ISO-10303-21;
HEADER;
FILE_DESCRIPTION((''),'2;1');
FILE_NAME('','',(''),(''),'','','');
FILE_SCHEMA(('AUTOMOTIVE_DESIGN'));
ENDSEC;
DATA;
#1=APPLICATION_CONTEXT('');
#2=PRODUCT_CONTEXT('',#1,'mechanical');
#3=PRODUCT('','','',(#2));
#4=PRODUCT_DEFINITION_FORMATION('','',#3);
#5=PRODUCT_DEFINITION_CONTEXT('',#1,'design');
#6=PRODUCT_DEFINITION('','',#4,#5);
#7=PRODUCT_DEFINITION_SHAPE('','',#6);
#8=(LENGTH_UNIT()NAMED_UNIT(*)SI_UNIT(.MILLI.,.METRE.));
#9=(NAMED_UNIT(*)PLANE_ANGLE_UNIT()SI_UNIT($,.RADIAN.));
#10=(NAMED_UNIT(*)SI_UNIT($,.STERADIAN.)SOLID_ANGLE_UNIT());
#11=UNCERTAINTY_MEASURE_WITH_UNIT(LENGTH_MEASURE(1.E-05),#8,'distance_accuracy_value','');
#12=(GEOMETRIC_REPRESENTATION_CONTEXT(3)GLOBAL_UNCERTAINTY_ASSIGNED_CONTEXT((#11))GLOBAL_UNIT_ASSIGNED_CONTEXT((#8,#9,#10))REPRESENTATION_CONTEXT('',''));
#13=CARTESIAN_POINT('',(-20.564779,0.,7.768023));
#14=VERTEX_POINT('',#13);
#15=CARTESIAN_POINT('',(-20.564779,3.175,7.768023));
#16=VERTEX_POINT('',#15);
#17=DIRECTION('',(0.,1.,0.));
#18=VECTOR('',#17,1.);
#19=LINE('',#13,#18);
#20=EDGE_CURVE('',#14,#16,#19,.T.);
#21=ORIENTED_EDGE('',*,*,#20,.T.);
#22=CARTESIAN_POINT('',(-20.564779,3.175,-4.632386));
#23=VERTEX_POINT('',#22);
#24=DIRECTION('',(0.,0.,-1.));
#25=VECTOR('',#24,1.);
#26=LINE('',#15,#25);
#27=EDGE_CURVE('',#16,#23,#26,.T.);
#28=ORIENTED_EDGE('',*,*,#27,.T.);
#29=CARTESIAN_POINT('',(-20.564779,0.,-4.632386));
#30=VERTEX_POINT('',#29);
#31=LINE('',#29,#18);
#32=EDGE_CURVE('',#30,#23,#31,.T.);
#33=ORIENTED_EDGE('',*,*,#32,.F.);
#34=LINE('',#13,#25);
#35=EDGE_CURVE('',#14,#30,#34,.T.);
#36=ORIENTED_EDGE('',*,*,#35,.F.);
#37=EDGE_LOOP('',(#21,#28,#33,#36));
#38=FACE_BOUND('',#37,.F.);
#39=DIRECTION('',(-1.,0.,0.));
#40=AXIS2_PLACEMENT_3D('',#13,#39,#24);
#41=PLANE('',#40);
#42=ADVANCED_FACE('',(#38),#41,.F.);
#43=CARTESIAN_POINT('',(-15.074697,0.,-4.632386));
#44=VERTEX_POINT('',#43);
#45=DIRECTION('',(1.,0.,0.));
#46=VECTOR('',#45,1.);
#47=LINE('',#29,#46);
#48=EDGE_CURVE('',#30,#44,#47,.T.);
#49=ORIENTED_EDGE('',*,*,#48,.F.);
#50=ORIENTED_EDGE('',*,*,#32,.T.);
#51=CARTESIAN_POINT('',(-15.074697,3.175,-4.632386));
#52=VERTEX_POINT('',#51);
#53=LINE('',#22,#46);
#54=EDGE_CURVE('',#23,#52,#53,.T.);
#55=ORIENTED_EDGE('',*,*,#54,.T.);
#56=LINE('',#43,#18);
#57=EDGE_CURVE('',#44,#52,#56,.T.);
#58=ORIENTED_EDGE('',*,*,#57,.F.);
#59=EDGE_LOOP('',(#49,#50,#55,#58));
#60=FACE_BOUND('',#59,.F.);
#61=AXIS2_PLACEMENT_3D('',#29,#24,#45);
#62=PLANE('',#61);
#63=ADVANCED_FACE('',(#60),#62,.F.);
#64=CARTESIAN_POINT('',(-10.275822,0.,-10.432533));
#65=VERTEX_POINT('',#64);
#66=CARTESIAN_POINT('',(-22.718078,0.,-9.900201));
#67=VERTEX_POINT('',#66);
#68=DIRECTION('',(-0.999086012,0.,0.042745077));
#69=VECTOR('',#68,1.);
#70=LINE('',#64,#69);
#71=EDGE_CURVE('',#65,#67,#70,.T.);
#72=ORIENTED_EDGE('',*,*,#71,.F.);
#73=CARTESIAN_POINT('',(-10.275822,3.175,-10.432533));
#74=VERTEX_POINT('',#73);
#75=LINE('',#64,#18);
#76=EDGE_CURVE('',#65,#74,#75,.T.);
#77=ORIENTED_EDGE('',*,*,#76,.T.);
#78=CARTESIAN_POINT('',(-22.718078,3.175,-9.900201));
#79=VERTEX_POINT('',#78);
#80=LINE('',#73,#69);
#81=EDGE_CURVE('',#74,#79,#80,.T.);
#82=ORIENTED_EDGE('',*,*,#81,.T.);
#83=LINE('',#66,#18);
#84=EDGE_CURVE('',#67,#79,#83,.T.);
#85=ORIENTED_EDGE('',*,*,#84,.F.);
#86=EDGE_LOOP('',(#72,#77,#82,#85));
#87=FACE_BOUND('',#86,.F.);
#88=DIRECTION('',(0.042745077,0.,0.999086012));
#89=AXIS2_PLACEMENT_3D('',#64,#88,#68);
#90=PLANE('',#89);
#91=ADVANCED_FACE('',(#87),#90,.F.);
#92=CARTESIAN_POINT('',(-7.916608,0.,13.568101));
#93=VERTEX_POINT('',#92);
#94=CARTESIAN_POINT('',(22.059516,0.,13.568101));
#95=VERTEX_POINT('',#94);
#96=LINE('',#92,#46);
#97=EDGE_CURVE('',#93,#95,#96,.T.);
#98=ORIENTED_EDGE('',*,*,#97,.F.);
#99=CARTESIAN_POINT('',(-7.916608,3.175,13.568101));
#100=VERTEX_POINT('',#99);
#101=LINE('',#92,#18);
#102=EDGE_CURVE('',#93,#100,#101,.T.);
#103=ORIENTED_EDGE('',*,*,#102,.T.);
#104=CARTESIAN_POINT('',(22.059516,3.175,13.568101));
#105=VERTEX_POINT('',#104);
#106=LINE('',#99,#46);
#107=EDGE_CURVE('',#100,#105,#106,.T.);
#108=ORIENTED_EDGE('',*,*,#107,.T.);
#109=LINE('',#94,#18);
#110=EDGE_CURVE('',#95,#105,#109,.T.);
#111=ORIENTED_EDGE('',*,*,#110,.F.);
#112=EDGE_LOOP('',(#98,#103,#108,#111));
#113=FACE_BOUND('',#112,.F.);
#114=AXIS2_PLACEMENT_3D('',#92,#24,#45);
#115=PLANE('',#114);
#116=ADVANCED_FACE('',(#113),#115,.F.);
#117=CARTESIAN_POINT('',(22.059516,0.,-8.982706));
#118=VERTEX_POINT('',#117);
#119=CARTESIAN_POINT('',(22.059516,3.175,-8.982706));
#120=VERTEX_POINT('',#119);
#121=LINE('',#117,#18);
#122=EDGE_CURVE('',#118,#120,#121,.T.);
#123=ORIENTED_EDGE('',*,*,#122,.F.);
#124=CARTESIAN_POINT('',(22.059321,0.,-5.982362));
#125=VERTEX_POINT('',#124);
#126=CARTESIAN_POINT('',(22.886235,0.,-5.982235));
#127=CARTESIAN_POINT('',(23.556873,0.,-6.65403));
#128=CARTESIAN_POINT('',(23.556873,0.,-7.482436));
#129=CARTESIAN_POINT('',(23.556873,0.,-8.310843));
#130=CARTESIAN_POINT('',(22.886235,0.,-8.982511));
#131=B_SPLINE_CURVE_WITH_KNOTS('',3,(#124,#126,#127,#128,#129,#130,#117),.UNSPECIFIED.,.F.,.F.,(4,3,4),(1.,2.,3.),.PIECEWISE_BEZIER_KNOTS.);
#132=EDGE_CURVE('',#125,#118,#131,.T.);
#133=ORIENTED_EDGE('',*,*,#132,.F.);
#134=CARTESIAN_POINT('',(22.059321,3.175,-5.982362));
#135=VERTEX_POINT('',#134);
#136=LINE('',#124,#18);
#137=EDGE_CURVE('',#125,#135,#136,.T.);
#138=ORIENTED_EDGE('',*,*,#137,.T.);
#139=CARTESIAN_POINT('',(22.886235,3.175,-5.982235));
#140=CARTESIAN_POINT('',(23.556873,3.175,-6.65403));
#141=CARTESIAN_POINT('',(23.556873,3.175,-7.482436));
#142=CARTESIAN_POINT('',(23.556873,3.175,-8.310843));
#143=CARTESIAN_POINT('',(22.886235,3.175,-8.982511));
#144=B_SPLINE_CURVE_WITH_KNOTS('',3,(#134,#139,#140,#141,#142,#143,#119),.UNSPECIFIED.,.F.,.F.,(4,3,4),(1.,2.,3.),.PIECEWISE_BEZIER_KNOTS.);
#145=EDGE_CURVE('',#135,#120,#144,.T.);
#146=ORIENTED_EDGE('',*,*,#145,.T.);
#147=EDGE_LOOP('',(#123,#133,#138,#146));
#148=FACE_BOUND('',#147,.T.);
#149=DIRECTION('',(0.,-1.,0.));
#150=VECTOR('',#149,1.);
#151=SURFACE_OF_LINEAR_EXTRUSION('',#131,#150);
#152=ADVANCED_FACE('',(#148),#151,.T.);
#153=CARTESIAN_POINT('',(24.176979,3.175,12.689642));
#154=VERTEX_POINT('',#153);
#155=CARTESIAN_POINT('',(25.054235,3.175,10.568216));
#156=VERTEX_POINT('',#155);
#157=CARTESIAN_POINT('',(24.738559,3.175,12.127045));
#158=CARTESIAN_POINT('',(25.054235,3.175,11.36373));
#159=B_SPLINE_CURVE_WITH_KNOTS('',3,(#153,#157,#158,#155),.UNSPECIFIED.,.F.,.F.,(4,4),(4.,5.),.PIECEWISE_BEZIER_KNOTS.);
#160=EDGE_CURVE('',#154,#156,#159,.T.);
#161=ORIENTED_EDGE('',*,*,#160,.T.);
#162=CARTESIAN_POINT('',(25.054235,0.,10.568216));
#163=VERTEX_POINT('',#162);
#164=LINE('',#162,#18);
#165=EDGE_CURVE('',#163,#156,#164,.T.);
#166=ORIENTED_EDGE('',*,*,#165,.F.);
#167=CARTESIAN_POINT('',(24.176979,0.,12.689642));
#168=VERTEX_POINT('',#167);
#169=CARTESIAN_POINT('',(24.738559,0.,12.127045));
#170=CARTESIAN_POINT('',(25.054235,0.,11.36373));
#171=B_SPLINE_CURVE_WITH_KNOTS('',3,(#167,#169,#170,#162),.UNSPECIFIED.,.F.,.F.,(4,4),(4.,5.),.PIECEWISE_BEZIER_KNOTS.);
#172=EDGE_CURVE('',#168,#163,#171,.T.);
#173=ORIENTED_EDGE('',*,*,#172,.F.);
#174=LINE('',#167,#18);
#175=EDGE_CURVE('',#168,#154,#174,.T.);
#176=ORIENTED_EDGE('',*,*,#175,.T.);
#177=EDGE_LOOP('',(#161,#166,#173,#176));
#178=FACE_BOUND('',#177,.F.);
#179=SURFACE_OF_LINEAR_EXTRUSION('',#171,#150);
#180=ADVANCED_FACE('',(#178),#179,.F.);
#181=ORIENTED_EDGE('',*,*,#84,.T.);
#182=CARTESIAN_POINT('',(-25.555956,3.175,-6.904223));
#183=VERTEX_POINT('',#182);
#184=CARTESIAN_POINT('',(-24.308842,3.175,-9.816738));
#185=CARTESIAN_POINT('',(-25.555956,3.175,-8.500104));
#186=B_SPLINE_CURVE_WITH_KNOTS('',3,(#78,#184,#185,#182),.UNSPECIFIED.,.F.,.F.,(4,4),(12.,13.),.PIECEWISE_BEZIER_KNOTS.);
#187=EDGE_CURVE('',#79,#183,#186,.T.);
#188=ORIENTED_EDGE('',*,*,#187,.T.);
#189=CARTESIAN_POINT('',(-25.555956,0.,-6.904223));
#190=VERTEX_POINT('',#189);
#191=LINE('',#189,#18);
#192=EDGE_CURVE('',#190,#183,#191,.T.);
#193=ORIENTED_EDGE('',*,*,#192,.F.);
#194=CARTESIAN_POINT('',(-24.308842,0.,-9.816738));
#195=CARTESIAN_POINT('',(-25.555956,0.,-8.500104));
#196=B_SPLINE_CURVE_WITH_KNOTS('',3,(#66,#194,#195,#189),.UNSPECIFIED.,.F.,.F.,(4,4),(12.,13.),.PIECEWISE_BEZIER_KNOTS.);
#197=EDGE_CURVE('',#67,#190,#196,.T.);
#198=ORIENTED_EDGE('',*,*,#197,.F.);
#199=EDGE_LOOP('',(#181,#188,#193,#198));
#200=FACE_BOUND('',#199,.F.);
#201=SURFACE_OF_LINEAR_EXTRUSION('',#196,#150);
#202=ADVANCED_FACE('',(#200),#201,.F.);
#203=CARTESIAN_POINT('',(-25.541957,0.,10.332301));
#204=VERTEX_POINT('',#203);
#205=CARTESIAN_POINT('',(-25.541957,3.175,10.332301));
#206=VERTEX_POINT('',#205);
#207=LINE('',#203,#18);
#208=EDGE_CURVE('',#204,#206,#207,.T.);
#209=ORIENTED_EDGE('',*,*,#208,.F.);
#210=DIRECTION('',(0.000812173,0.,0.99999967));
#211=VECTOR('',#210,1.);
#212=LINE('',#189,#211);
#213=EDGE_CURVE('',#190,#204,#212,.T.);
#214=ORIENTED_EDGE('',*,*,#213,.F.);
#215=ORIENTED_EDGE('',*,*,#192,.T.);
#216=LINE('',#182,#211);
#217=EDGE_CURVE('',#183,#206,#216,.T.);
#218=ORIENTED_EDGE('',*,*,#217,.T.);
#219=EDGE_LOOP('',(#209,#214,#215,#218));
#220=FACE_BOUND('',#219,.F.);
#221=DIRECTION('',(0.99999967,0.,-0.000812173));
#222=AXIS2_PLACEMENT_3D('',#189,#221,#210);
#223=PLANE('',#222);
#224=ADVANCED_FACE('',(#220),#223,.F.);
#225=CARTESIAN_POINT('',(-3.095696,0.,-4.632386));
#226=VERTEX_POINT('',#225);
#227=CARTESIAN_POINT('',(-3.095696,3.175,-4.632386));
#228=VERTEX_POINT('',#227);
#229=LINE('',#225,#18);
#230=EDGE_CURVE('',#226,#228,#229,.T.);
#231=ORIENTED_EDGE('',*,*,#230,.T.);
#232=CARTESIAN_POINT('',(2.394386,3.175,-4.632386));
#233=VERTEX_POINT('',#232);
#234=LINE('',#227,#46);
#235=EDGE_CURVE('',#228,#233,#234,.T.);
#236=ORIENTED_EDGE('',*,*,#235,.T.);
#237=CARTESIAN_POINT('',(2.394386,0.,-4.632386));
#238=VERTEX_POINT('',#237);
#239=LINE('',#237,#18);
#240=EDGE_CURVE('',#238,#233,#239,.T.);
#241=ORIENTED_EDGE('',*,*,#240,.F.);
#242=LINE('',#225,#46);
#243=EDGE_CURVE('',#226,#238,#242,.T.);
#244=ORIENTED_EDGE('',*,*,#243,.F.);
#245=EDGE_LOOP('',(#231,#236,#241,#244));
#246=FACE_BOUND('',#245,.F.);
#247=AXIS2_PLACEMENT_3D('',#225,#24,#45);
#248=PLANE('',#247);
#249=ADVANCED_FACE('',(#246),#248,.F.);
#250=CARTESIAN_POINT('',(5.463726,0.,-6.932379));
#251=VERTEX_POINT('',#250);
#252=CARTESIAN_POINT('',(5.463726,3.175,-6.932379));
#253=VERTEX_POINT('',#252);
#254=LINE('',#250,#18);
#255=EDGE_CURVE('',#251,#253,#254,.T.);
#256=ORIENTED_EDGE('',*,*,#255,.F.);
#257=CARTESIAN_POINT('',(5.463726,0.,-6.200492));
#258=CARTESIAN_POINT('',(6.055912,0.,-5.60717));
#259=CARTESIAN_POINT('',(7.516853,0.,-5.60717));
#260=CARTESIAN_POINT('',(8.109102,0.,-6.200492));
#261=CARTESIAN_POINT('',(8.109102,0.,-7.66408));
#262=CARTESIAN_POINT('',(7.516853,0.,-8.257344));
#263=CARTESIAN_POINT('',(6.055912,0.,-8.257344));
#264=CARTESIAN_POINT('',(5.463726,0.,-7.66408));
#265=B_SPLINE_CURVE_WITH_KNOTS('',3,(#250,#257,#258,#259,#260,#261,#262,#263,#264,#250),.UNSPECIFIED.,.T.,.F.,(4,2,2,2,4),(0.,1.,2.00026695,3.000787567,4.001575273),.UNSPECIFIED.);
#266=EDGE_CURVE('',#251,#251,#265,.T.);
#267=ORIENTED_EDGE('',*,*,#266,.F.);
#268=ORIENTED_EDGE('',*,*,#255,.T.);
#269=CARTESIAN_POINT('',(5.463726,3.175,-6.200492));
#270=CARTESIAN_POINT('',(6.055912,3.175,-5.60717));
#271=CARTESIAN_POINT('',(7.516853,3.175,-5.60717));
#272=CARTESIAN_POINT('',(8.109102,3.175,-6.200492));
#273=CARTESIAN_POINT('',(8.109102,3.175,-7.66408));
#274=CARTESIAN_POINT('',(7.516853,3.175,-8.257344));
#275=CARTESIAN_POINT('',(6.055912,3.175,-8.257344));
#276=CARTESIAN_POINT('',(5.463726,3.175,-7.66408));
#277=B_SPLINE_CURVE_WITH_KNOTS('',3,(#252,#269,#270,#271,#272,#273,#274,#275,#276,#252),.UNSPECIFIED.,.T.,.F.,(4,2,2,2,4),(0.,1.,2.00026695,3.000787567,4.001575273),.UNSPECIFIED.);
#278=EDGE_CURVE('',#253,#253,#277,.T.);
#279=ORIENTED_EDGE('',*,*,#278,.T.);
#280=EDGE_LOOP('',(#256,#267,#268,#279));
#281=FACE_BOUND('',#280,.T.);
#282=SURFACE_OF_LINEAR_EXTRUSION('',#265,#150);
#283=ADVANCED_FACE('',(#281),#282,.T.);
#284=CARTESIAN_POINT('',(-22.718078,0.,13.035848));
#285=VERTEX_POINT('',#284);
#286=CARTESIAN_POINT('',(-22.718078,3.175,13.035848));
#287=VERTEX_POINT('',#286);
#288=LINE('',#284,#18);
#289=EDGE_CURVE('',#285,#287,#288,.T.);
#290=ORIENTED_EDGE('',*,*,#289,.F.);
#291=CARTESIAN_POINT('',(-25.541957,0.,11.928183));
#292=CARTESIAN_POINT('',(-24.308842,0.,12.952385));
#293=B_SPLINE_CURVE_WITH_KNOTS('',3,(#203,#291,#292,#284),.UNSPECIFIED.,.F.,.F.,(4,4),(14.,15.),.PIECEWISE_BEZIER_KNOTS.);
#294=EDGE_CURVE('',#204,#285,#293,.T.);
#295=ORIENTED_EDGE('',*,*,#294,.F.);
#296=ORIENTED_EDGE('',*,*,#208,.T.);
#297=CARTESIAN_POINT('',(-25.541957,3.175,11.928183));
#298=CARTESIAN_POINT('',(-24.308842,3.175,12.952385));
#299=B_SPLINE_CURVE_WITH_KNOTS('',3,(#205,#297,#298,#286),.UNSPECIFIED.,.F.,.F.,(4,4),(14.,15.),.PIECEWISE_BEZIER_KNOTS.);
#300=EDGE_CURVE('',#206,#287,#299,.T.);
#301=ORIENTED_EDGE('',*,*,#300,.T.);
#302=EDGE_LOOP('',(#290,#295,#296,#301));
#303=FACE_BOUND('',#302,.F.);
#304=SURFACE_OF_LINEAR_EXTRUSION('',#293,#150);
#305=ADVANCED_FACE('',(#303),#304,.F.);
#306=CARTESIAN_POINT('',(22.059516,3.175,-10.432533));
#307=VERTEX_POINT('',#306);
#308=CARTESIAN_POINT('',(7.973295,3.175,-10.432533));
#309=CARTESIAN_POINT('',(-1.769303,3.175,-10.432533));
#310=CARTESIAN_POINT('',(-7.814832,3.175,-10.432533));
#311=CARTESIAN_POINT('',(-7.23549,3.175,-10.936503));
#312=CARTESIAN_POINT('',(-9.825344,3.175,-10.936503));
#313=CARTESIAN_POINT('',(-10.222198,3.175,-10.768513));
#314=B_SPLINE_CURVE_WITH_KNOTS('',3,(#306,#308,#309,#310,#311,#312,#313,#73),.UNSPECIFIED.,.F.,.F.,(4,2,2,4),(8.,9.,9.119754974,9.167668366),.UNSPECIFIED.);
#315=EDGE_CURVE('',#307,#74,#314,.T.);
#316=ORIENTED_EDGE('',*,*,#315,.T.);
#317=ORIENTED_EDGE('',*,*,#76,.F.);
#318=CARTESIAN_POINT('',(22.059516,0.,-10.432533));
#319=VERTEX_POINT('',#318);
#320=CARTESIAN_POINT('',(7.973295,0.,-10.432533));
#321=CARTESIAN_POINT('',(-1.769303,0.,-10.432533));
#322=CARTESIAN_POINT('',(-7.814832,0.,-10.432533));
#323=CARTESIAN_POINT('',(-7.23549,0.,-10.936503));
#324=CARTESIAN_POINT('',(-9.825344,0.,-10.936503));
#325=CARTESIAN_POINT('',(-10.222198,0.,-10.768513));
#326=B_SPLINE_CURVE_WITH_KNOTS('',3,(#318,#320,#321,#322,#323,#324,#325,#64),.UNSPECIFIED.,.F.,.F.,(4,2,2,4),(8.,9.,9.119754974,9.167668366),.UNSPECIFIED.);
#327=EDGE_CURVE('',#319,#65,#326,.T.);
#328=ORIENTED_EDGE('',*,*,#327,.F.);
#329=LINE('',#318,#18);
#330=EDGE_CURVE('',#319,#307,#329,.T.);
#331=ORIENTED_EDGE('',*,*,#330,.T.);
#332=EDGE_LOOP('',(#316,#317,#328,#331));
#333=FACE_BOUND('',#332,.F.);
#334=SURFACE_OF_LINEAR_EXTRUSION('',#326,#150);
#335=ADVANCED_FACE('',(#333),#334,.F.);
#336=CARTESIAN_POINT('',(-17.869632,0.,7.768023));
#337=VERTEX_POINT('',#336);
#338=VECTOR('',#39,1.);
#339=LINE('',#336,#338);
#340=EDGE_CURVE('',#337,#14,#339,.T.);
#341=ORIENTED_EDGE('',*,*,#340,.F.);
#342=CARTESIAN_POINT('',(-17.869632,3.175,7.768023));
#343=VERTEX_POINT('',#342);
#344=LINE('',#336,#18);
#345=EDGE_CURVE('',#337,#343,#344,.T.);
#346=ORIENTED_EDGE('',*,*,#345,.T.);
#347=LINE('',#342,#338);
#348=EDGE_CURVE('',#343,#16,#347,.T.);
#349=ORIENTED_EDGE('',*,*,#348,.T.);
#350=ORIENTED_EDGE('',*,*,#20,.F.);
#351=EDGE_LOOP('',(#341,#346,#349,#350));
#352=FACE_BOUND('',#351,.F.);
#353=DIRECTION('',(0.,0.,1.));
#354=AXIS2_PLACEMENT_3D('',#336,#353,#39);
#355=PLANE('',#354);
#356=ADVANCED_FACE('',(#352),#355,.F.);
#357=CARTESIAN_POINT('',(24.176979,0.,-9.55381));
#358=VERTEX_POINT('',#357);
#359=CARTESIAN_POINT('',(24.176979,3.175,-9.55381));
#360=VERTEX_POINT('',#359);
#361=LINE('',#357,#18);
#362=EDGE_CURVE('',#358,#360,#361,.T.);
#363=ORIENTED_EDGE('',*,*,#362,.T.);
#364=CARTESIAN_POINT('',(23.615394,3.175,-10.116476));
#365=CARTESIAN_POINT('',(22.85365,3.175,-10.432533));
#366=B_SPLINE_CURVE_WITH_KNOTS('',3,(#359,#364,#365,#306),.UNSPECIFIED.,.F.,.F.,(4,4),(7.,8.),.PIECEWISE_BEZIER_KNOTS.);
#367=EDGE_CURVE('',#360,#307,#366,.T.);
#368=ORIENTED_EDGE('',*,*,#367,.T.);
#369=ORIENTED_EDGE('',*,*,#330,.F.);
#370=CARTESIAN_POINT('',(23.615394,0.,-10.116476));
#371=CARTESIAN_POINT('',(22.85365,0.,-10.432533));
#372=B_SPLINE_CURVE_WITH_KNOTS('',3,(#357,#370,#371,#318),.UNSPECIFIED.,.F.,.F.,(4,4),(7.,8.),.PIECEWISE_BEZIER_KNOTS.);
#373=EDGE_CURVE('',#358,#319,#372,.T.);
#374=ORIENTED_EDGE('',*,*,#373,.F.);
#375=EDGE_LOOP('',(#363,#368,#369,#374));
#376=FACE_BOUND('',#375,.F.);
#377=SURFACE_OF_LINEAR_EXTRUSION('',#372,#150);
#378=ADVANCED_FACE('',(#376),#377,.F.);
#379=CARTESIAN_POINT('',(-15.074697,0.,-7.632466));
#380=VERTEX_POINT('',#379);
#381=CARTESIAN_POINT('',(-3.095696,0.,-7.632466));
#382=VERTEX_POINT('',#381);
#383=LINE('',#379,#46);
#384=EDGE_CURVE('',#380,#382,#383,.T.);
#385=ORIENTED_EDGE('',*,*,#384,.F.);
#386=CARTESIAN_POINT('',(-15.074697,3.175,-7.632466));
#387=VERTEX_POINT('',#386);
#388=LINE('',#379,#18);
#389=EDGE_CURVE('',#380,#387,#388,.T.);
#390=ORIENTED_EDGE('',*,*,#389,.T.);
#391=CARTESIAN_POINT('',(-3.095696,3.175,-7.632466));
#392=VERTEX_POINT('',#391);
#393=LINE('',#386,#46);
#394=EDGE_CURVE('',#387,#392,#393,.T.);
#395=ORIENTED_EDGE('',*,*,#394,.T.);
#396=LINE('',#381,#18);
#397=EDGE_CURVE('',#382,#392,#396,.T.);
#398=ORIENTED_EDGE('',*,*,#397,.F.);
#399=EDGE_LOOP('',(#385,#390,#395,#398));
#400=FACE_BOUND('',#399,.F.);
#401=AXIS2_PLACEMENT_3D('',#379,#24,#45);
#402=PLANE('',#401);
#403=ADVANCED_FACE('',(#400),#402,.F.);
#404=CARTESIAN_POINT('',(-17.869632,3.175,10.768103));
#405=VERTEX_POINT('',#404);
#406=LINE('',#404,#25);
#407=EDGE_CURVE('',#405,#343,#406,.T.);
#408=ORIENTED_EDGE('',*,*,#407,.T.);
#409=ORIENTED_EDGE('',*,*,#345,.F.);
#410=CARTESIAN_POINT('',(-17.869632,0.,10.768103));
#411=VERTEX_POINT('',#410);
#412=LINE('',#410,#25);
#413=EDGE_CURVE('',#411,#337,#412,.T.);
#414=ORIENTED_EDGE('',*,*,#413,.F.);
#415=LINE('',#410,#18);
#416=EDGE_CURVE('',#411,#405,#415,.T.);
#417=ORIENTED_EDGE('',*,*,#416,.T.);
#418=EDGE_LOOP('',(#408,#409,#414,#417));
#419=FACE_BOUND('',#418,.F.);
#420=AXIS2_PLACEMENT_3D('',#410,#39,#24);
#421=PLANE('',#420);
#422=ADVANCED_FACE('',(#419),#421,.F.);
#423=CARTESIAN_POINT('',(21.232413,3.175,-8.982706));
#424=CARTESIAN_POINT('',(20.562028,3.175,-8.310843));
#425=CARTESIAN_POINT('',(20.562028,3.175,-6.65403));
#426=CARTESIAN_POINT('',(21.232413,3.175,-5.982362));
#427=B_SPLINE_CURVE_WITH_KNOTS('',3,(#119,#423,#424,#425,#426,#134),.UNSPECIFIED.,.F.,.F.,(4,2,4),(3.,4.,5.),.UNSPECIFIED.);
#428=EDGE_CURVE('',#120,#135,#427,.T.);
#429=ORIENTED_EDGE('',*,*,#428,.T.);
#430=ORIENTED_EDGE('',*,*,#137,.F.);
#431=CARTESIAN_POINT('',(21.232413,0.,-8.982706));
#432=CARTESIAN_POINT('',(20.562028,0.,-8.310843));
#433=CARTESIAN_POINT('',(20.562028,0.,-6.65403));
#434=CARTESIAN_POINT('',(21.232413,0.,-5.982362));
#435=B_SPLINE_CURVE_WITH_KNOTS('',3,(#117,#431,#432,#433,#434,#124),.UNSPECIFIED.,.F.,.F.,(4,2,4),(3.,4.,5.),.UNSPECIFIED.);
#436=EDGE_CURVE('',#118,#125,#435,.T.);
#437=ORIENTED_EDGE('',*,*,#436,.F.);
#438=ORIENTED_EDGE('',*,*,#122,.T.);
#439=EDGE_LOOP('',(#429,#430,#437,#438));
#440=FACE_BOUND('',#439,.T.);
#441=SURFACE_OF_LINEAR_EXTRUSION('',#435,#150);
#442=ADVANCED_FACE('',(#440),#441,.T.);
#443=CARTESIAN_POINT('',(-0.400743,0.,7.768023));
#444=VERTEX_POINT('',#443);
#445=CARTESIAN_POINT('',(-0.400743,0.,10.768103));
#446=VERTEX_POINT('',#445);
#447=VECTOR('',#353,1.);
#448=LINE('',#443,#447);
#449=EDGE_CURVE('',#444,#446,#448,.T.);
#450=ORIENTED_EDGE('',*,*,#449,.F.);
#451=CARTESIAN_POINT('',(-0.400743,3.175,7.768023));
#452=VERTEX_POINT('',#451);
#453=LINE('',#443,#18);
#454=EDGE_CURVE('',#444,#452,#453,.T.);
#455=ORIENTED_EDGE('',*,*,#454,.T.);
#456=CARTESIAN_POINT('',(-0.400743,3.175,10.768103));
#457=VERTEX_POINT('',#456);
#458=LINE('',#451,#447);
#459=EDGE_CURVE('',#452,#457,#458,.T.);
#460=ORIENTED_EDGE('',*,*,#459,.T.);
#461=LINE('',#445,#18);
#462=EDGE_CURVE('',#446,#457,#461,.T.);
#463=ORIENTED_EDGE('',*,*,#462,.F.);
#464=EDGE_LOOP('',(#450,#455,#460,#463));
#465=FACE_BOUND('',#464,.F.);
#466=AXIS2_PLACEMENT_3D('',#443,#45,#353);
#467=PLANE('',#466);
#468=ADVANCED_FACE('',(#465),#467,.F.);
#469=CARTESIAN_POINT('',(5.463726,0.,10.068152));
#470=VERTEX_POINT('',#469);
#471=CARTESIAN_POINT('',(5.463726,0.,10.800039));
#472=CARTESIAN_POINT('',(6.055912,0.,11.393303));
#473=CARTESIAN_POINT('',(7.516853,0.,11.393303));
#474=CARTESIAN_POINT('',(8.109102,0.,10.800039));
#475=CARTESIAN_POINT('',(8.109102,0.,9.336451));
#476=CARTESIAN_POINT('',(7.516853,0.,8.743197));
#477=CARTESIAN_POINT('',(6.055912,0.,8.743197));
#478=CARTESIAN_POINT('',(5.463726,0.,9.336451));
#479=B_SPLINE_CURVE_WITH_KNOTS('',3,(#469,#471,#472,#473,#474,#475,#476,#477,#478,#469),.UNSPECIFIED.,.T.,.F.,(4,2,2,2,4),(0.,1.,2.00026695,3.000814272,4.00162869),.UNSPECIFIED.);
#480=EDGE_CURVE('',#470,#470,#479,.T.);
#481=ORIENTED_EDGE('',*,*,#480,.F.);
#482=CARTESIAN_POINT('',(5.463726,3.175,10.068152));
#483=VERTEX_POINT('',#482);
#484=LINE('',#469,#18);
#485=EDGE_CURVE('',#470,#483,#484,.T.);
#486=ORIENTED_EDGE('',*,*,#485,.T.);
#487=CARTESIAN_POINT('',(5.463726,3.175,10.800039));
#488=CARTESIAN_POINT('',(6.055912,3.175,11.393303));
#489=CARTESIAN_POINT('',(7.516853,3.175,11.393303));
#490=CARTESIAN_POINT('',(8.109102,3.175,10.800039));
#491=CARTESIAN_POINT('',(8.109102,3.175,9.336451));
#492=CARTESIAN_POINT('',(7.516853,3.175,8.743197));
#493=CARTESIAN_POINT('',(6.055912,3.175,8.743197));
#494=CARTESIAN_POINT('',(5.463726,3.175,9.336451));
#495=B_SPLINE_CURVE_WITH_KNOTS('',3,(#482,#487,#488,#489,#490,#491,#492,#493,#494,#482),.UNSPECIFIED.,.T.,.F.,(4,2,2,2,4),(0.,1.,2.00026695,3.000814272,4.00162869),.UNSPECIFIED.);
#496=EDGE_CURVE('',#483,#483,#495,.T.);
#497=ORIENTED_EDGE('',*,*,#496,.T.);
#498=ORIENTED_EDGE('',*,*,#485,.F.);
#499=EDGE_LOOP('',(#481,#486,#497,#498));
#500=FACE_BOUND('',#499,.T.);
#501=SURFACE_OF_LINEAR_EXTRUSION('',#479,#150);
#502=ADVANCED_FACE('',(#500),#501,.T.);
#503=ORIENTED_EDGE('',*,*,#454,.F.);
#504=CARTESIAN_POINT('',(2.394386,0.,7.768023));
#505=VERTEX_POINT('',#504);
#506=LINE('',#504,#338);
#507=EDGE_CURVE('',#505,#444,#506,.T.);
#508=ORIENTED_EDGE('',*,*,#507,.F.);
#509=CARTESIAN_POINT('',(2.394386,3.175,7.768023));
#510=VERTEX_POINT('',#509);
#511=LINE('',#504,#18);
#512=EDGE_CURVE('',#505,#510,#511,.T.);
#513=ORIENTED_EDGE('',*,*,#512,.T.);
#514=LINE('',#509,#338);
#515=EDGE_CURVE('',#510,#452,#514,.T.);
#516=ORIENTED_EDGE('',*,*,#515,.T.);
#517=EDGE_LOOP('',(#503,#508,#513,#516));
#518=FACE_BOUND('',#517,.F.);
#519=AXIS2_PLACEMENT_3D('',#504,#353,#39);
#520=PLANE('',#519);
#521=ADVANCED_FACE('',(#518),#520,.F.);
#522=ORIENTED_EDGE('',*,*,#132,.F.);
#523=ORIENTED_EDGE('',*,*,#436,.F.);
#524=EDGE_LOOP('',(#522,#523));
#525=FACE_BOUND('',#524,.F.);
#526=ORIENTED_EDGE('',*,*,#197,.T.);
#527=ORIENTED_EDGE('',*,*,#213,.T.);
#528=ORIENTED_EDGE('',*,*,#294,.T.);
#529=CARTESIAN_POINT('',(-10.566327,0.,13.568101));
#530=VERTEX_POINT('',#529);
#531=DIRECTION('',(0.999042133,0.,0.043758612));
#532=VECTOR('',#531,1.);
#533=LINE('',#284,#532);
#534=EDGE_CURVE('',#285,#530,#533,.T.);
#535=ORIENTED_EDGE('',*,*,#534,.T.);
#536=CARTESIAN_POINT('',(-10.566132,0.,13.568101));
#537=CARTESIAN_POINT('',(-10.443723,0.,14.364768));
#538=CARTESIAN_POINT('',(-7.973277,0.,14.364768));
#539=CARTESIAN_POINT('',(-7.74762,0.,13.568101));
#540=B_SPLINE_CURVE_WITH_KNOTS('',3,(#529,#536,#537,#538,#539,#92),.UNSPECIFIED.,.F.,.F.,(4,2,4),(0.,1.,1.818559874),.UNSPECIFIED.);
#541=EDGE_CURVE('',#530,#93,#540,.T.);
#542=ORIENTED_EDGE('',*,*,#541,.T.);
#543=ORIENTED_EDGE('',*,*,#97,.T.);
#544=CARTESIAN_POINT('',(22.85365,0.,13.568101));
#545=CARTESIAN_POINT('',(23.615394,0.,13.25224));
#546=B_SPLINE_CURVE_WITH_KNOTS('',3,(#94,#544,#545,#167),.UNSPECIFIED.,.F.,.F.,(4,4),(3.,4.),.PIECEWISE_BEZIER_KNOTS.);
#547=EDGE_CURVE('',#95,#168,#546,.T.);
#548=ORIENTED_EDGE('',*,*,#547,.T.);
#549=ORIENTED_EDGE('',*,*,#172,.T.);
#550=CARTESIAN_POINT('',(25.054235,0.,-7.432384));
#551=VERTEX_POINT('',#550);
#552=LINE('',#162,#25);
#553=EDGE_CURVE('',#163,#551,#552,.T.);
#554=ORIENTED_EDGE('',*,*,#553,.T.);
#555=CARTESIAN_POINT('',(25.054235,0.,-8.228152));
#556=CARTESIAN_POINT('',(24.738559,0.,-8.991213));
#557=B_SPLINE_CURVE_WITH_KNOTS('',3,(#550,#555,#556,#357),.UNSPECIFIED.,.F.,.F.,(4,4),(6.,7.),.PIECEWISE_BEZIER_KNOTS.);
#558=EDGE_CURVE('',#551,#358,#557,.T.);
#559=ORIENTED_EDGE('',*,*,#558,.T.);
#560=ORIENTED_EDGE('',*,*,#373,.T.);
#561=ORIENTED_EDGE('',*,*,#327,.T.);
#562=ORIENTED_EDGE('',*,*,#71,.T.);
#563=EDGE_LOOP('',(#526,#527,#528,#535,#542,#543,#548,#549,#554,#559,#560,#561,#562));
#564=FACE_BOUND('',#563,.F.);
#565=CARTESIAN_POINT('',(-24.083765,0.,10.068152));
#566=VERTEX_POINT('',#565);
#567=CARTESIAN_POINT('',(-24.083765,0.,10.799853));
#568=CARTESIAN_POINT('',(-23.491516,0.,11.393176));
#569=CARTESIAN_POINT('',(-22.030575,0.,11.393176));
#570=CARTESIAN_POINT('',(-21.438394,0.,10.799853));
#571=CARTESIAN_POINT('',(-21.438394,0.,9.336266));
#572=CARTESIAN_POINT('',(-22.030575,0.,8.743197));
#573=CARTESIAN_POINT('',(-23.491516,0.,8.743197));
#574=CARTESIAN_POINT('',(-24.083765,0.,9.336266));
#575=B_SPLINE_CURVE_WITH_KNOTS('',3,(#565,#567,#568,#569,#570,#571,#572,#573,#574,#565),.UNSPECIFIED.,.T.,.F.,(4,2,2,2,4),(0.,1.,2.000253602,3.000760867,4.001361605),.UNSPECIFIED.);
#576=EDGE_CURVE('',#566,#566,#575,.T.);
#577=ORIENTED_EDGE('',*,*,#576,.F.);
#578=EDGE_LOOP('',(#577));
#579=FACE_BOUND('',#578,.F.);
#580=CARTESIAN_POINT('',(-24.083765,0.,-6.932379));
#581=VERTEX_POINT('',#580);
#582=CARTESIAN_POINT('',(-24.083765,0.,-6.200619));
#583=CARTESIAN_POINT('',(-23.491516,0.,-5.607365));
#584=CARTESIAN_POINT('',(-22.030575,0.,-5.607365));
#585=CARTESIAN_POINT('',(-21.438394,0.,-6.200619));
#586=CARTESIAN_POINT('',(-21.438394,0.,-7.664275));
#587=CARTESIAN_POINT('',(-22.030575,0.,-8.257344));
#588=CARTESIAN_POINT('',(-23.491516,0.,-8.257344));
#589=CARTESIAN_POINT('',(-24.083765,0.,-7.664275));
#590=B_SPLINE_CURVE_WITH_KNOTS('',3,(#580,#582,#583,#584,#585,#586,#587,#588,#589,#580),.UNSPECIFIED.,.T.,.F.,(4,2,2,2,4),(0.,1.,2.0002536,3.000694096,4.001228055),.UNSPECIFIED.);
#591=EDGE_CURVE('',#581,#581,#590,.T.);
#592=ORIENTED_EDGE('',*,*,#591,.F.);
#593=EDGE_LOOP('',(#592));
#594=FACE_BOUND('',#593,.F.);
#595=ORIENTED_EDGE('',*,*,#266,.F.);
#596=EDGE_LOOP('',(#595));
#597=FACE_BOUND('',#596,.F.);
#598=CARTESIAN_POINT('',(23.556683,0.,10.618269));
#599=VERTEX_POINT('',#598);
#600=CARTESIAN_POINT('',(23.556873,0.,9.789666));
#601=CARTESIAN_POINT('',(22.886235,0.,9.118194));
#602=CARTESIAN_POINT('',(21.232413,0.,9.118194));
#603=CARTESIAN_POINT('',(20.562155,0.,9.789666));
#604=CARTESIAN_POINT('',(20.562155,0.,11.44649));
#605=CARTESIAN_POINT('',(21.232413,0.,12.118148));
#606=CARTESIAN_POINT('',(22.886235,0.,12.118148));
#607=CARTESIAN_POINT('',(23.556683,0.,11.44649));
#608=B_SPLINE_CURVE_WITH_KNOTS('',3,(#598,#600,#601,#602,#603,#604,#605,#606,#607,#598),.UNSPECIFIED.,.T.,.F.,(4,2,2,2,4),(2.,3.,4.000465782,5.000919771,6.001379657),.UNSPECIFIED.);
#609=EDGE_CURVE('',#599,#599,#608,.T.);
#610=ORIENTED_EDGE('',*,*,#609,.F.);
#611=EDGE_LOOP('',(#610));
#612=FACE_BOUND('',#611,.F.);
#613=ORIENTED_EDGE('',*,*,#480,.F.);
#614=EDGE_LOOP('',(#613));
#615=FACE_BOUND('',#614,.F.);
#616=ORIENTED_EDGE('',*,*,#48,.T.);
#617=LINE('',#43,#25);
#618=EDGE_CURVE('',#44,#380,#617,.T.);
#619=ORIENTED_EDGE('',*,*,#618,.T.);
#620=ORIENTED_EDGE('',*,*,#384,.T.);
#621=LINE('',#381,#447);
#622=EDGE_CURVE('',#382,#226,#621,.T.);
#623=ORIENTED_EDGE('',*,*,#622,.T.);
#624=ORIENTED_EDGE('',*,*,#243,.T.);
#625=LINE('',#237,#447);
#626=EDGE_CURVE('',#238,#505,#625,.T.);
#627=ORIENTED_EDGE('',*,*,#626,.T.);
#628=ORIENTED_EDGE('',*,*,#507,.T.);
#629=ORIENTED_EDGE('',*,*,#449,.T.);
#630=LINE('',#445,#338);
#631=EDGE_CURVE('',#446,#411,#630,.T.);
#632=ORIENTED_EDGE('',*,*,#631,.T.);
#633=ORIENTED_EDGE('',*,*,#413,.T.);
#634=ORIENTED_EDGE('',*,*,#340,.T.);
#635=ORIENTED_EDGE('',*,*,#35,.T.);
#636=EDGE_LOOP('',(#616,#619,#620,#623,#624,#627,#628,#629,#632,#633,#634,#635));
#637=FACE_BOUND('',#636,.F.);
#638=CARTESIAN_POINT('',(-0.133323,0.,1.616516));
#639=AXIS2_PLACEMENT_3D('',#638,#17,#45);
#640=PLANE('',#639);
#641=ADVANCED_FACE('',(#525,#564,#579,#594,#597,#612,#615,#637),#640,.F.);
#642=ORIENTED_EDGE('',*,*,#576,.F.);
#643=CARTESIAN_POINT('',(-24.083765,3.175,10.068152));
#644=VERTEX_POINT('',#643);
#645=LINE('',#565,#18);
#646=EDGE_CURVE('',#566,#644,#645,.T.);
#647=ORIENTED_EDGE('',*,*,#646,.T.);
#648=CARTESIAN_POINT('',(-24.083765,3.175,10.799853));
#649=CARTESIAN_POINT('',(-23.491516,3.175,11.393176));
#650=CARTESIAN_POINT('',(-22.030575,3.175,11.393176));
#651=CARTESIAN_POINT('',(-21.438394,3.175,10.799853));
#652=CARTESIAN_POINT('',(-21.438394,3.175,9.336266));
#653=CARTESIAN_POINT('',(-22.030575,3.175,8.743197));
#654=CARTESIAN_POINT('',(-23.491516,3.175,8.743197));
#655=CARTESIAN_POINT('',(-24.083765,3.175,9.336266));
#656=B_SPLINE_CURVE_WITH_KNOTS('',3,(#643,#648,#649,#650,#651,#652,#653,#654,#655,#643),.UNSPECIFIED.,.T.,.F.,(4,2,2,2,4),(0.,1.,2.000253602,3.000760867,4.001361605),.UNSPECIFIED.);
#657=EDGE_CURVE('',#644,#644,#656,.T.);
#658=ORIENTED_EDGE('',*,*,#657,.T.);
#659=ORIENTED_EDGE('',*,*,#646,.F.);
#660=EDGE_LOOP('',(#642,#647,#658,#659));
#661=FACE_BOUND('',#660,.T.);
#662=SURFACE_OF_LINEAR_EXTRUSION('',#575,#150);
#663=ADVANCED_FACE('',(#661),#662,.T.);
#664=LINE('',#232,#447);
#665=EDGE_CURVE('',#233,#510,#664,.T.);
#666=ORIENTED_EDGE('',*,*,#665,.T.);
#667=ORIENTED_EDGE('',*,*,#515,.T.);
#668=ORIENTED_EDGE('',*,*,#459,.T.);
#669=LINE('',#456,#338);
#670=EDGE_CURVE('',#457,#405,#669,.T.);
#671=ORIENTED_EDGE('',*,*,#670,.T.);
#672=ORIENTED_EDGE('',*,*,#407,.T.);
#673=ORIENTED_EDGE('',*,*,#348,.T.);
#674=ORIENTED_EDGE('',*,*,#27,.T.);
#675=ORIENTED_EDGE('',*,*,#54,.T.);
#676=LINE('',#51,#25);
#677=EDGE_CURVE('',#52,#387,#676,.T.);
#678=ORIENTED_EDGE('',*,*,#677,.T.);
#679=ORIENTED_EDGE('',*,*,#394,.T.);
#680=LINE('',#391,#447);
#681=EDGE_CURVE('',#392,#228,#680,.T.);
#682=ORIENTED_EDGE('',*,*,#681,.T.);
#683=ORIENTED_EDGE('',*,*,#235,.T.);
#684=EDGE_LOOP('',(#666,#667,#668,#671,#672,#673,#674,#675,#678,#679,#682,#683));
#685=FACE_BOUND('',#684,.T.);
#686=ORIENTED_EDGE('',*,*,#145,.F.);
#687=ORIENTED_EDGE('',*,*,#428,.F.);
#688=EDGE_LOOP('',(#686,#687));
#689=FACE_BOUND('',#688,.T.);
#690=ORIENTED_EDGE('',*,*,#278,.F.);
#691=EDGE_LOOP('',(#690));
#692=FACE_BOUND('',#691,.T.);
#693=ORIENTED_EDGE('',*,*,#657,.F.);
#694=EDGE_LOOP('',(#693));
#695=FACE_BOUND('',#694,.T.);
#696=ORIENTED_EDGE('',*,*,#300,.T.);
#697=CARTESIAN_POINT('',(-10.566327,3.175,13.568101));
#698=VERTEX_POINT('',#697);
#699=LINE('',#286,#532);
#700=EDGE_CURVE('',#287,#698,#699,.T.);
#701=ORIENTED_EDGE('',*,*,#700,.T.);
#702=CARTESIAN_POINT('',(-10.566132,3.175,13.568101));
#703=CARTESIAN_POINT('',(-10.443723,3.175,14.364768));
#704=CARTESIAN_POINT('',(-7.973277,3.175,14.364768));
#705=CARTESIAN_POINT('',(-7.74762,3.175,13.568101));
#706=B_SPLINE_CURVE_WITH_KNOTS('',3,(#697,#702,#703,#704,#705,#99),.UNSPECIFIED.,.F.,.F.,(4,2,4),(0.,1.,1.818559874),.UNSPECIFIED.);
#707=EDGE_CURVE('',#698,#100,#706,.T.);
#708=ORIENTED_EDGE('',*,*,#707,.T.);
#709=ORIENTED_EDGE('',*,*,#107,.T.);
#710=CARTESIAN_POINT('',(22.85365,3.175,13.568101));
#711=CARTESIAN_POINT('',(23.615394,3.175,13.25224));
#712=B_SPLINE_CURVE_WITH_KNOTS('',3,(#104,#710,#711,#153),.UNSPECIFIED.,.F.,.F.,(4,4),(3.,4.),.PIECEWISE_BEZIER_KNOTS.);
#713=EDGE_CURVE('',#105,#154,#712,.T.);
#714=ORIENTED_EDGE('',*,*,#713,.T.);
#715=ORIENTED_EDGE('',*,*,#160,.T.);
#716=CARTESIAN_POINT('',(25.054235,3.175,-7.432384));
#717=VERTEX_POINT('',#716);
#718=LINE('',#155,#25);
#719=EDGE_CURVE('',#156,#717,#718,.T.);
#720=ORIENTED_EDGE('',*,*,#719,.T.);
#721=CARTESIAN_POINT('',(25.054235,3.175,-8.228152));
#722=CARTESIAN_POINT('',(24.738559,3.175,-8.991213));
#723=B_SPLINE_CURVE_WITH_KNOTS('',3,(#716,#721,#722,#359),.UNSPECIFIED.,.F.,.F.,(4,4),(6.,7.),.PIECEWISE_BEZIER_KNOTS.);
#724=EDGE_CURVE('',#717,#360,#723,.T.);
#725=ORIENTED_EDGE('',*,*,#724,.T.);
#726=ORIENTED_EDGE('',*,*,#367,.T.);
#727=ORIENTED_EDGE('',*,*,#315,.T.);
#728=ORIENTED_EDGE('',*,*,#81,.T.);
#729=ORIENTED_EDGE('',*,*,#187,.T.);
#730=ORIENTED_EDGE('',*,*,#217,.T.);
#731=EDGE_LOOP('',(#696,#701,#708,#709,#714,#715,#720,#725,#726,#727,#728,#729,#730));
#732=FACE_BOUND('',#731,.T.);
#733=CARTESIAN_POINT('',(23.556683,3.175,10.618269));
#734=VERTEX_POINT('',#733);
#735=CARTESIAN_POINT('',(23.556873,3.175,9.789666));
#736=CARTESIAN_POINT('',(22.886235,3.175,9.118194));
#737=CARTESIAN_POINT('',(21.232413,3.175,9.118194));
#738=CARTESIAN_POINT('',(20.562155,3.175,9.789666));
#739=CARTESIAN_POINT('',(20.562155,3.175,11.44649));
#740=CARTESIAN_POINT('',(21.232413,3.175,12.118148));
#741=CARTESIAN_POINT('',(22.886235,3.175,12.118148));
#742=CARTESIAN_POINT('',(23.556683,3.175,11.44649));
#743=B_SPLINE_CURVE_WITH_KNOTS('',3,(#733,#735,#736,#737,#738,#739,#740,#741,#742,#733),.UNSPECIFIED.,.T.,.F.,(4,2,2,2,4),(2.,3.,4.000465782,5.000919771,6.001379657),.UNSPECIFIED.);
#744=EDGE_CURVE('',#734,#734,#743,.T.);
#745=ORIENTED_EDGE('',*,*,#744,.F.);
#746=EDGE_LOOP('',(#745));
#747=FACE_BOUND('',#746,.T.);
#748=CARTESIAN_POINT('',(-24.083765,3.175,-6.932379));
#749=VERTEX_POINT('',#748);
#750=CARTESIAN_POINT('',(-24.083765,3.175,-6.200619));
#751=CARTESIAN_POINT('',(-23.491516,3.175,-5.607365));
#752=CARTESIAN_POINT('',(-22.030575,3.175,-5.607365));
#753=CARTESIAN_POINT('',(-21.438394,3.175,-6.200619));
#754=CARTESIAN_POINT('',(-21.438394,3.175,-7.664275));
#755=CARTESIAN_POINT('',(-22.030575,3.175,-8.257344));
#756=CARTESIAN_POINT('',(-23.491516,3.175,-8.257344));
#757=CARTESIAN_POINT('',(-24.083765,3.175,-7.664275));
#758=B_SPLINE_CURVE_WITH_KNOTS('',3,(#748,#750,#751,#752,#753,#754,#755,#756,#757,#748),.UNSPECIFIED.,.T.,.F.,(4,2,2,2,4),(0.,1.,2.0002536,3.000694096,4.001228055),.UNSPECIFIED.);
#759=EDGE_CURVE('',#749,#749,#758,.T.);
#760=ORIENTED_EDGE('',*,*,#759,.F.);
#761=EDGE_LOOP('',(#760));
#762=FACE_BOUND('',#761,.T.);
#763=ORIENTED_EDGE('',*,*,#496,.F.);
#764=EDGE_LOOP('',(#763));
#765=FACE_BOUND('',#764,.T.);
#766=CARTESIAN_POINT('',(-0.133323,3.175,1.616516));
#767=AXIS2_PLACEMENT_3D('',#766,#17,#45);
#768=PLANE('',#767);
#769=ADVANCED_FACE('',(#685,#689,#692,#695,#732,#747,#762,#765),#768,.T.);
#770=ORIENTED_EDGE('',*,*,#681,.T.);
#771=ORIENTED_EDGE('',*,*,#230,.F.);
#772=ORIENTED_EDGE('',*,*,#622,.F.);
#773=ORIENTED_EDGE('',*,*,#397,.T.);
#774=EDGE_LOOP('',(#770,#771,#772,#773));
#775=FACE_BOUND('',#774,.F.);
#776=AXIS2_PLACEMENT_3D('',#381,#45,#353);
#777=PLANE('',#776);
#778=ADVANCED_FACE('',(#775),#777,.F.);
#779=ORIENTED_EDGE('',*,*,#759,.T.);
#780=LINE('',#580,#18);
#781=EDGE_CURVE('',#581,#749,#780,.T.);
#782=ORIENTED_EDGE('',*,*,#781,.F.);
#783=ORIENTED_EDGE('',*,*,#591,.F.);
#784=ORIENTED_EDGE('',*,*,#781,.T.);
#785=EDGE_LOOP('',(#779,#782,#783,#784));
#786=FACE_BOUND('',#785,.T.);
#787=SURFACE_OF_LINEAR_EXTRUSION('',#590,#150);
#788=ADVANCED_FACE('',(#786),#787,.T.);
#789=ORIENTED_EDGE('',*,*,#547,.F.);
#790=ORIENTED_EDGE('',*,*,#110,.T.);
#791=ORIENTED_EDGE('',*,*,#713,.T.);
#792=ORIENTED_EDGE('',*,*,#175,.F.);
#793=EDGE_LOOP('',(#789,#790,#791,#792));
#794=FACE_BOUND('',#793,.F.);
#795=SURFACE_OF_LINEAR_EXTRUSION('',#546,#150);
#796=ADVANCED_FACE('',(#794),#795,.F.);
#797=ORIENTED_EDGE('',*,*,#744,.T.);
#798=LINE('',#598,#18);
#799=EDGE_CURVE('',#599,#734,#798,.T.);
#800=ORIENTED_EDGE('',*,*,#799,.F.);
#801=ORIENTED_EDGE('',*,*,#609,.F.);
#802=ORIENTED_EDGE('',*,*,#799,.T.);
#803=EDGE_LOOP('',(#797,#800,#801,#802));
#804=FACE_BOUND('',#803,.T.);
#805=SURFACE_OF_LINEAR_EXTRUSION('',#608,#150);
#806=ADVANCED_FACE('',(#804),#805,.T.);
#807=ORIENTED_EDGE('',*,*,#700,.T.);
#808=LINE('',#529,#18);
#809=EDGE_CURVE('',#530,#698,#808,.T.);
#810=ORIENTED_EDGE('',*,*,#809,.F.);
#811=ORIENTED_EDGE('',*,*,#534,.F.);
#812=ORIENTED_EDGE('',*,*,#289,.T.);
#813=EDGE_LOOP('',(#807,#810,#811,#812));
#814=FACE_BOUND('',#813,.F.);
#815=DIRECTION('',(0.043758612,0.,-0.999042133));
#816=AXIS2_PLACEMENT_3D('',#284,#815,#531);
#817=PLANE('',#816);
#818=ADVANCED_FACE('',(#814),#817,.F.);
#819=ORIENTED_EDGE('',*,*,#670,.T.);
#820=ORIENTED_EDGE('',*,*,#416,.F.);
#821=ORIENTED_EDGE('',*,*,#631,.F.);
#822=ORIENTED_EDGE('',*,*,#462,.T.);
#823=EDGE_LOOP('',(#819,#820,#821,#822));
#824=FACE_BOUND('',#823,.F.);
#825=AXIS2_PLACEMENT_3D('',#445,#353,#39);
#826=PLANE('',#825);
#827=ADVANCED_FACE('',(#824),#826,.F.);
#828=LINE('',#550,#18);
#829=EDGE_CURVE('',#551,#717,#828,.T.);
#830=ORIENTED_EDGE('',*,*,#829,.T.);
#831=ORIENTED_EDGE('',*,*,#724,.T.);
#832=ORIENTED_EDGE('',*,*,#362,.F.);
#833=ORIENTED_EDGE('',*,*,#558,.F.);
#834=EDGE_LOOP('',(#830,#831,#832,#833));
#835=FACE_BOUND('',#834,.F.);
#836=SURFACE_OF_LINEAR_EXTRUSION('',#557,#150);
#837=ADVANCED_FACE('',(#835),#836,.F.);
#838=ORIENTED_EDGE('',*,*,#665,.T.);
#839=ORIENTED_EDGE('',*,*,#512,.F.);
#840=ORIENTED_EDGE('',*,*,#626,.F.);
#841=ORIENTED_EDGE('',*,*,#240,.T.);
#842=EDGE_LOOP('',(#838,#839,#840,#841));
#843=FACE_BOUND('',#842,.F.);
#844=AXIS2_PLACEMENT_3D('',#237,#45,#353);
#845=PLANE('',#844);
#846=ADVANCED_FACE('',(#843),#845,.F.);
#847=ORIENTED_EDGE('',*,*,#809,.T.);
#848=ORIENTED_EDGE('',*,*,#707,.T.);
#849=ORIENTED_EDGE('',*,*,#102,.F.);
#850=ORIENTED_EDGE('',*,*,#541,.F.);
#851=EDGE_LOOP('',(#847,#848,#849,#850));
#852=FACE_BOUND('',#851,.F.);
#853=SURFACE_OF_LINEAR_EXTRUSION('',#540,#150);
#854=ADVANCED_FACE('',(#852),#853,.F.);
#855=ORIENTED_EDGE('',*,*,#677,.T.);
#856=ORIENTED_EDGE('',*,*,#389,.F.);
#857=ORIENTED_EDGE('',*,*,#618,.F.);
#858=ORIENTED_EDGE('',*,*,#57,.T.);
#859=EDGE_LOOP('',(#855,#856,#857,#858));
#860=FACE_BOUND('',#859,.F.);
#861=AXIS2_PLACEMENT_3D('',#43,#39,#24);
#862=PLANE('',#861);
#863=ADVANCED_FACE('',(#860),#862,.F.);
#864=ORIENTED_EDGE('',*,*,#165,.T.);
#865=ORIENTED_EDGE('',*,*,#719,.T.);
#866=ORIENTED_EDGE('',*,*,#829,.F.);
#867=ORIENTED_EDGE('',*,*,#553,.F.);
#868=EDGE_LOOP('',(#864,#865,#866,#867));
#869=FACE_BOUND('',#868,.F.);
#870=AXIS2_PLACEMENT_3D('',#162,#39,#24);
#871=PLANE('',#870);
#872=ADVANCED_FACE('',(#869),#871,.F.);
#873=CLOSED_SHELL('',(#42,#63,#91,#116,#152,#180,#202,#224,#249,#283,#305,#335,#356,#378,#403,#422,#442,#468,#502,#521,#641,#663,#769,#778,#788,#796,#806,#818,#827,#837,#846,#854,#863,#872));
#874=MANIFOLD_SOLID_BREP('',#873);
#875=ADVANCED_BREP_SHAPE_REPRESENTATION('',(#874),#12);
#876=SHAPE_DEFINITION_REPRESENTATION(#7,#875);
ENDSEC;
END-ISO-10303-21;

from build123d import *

# Parameters (mm, degrees)
BOSS_EXTRUDE1_DEPTH = 3.175


with BuildPart() as part:
    # Sketch1 → Boss-Extrude1 (new body)
    with BuildSketch(Plane(origin=(0, 0, 0), x_dir=(1, 0, 0), z_dir=(0, 1, 0))):
        with BuildLine():
            Line((-7.916607704, -13.568101426), (22.059516351, -13.568101426))
            add(Edge.make_bspline(
                [(22.059516351, -13.568101426), (22.853650229, -13.568101426), (23.615394255, -13.252239738), (24.176979225, -12.689642236)],
                knots=[3, 3, 3, 3, 4, 4, 4, 4], degree=3))
            add(Edge.make_bspline(
                [(24.176979225, -12.689642236), (24.738559321, -12.127044734), (25.054234873, -11.363730227), (25.054234873, -10.568216226)],
                knots=[4, 4, 4, 4, 5, 5, 5, 5], degree=3))
            Line((25.054234873, -10.568216226), (25.054234874, 7.432384125))
            add(Edge.make_bspline(
                [(25.054234874, 7.432384125), (25.054234874, 8.228152049), (24.738559322, 8.991212634), (24.176979226, 9.553810135)],
                knots=[6, 6, 6, 6, 7, 7, 7, 7], degree=3))
            add(Edge.make_bspline(
                [(24.176979226, 9.553810135), (23.615394256, 10.116476001), (22.85365023, 10.432533016), (22.059516352, 10.432533016)],
                knots=[7, 7, 7, 7, 8, 8, 8, 8], degree=3))
            add(Edge.make_bspline(
                [(22.059516352, 10.432533016), (0.930184666, 10.432533017), (-7.168277805, 10.432533017)],
                knots=[8, 8, 8, 9, 9, 9], degree=2))
            add(Edge.make_bspline(
                [(-7.168277805, 10.432533017), (-7.814831912, 10.432533017), (-7.235489796, 10.936503417), (-9.085259918, 10.936503417)],
                knots=[9, 9, 9, 9, 10, 10, 10, 10], degree=3))
            add(Edge.make_bspline(
                [(-9.085259918, 10.936503417), (-10.19538618, 10.936503417), (-10.2758222, 10.432533017)],
                knots=[10, 10, 10, 11, 11, 11], degree=2))
            Line((-10.2758222, 10.432533017), (-22.718078344, 9.900201281))
            add(Edge.make_bspline(
                [(-22.718078344, 9.900201281), (-24.308841752, 9.816738478), (-25.555955888, 8.500104453), (-25.555955888, 6.904222601)],
                knots=[12, 12, 12, 12, 13, 13, 13, 13], degree=3))
            Line((-25.555955888, 6.904222601), (-25.541956843, -10.332301472))
            add(Edge.make_bspline(
                [(-25.541956843, -10.332301472), (-25.541956843, -11.928183324), (-24.308841753, -12.952385016), (-22.718078345, -13.035847819)],
                knots=[14, 14, 14, 14, 15, 15, 15, 15], degree=3))
            Line((-22.718078345, -13.035847819), (-10.566326768, -13.568101426))
            add(Edge.make_bspline(
                [(-10.566326768, -13.568101426), (-10.566131795, -13.568101426), (-10.44372301, -14.36476785), (-9.085259919, -14.36476785)],
                knots=[0, 0, 0, 0, 1, 1, 1, 1], degree=3))
            add(Edge.make_bspline(
                [(-9.085259919, -14.36476785), (-7.973276542, -14.36476785), (-7.747619922, -13.568101426), (-7.916607704, -13.568101426)],
                knots=[1, 1, 1, 1, 2, 2, 2, 2], degree=3))
        make_face()
        Polygon((-0.350718254, -7.76802257), (-0.400743394, -7.76802257), (-0.400743394, -10.768103096), (-17.869631753, -10.768103096), (-17.869631753, -7.76802257), (-20.564779474, -7.76802257), (-20.564779474, 4.632385798), (-15.074696963, 4.632385798), (-15.074696963, 7.632466324), (-3.095696143, 7.632466324), (-3.095696143, 4.632385798), (2.394386368, 4.632385798), (2.394386368, -7.76802257), align=None, mode=Mode.SUBTRACT)
        with BuildLine():
            add(Edge.make_bspline(
                [(-21.438394006, -10.068152345), (-21.438394006, -9.336265792), (-22.030575079, -8.743197433), (-22.76101135, -8.743197433), (-23.491515862, -8.743197433), (-24.083765176, -9.336265792), (-24.083765176, -10.068152345)],
                knots=[2, 2, 2, 2, 3, 3, 3, 4, 4, 4, 4], degree=3))
            add(Edge.make_bspline(
                [(-24.083765176, -10.068152345), (-24.083765176, -10.799853338), (-23.491515862, -11.393175621), (-22.761138083, -11.393175621), (-22.030575079, -11.393175621), (-21.438394006, -10.799853339), (-21.438394006, -10.068152345)],
                knots=[0, 0, 0, 0, 1, 1, 1, 2, 2, 2, 2], degree=3))
        make_face(mode=Mode.SUBTRACT)
        with BuildLine():
            add(Edge.make_bspline(
                [(-21.438394005, 6.932378845), (-21.438394005, 7.664275164), (-22.030575078, 8.257343524), (-22.76101135, 8.257343524), (-23.491515861, 8.257343524), (-24.083765175, 7.664275165), (-24.083765175, 6.932378845)],
                knots=[2, 2, 2, 2, 3, 3, 3, 4, 4, 4, 4], degree=3))
            add(Edge.make_bspline(
                [(-24.083765175, 6.932378845), (-24.083765176, 6.200619254), (-23.491515862, 5.607365335), (-22.761138082, 5.607365335), (-22.030575078, 5.607365335), (-21.438394005, 6.200619254), (-21.438394005, 6.932378845)],
                knots=[0, 0, 0, 0, 1, 1, 1, 2, 2, 2, 2], degree=3))
        make_face(mode=Mode.SUBTRACT)
        with BuildLine():
            add(Edge.make_bspline(
                [(22.059516352, 8.982706186), (21.232412577, 8.982706186), (20.562027922, 8.310843315), (20.562027922, 7.482436415)],
                knots=[3, 3, 3, 3, 4, 4, 4, 4], degree=3))
            add(Edge.make_bspline(
                [(20.562027922, 7.482436415), (20.562027922, 6.654029515), (21.232412577, 5.98236197), (22.059321379, 5.98236197)],
                knots=[0, 0, 0, 0, 1, 1, 1, 1], degree=3))
            add(Edge.make_bspline(
                [(22.059321379, 5.98236197), (22.886235056, 5.982235008), (23.556873176, 6.654029515), (23.556873176, 7.482436415), (23.556873176, 8.310843315), (22.886235056, 8.98251086), (22.059516352, 8.982706186)],
                knots=[1, 1, 1, 1, 2, 2, 2, 3, 3, 3, 3], degree=3))
        make_face(mode=Mode.SUBTRACT)
        with BuildLine():
            add(Edge.make_bspline(
                [(23.556683077, -10.618268517), (23.556873175, -9.789666291), (22.886235055, -9.118194072), (22.059516351, -9.118194072), (21.232412576, -9.118194072), (20.562154653, -9.789666291), (20.562154653, -10.618082957)],
                knots=[2, 2, 2, 2, 3, 3, 3, 4, 4, 4, 4], degree=3))
            add(Edge.make_bspline(
                [(20.562154653, -10.618082957), (20.562154653, -11.446489857), (21.232412576, -12.118147636), (22.059321378, -12.118147636), (22.886235055, -12.118147636), (23.556683077, -11.446489858), (23.556683077, -10.618268517)],
                knots=[0, 0, 0, 0, 1, 1, 1, 2, 2, 2, 2], degree=3))
        make_face(mode=Mode.SUBTRACT)
        with BuildLine():
            add(Edge.make_bspline(
                [(8.109101892, -10.068347672), (8.109101892, -9.336451353), (7.516852578, -8.743197434), (6.786479673, -8.743197434), (6.055911795, -8.743197434), (5.463725847, -9.336451353), (5.463725847, -10.068152346)],
                knots=[2, 2, 2, 2, 3, 3, 3, 4, 4, 4, 4], degree=3))
            add(Edge.make_bspline(
                [(5.463725847, -10.068152346), (5.463725847, -10.8000389), (6.055911795, -11.393302585), (6.7862847, -11.393302585), (7.516852578, -11.393302585), (8.109101892, -10.8000389), (8.109101892, -10.068347672)],
                knots=[0, 0, 0, 0, 1, 1, 1, 2, 2, 2, 2], degree=3))
        make_face(mode=Mode.SUBTRACT)
        with BuildLine():
            add(Edge.make_bspline(
                [(8.109101892, 6.932193284), (8.109101892, 7.664079837), (7.516852578, 8.257343522), (6.786479673, 8.257343522), (6.055911795, 8.257343522), (5.463725848, 7.664079837), (5.463725848, 6.932378844)],
                knots=[2, 2, 2, 2, 3, 3, 3, 4, 4, 4, 4], degree=3))
            add(Edge.make_bspline(
                [(5.463725848, 6.932378844), (5.463725847, 6.20049229), (6.055911795, 5.607170007), (6.7862847, 5.607170007), (7.516852578, 5.607170007), (8.109101892, 6.20049229), (8.109101892, 6.932193284)],
                knots=[0, 0, 0, 0, 1, 1, 1, 2, 2, 2, 2], degree=3))
        make_face(mode=Mode.SUBTRACT)
    extrude(amount=BOSS_EXTRUDE1_DEPTH)


solid = part.part
